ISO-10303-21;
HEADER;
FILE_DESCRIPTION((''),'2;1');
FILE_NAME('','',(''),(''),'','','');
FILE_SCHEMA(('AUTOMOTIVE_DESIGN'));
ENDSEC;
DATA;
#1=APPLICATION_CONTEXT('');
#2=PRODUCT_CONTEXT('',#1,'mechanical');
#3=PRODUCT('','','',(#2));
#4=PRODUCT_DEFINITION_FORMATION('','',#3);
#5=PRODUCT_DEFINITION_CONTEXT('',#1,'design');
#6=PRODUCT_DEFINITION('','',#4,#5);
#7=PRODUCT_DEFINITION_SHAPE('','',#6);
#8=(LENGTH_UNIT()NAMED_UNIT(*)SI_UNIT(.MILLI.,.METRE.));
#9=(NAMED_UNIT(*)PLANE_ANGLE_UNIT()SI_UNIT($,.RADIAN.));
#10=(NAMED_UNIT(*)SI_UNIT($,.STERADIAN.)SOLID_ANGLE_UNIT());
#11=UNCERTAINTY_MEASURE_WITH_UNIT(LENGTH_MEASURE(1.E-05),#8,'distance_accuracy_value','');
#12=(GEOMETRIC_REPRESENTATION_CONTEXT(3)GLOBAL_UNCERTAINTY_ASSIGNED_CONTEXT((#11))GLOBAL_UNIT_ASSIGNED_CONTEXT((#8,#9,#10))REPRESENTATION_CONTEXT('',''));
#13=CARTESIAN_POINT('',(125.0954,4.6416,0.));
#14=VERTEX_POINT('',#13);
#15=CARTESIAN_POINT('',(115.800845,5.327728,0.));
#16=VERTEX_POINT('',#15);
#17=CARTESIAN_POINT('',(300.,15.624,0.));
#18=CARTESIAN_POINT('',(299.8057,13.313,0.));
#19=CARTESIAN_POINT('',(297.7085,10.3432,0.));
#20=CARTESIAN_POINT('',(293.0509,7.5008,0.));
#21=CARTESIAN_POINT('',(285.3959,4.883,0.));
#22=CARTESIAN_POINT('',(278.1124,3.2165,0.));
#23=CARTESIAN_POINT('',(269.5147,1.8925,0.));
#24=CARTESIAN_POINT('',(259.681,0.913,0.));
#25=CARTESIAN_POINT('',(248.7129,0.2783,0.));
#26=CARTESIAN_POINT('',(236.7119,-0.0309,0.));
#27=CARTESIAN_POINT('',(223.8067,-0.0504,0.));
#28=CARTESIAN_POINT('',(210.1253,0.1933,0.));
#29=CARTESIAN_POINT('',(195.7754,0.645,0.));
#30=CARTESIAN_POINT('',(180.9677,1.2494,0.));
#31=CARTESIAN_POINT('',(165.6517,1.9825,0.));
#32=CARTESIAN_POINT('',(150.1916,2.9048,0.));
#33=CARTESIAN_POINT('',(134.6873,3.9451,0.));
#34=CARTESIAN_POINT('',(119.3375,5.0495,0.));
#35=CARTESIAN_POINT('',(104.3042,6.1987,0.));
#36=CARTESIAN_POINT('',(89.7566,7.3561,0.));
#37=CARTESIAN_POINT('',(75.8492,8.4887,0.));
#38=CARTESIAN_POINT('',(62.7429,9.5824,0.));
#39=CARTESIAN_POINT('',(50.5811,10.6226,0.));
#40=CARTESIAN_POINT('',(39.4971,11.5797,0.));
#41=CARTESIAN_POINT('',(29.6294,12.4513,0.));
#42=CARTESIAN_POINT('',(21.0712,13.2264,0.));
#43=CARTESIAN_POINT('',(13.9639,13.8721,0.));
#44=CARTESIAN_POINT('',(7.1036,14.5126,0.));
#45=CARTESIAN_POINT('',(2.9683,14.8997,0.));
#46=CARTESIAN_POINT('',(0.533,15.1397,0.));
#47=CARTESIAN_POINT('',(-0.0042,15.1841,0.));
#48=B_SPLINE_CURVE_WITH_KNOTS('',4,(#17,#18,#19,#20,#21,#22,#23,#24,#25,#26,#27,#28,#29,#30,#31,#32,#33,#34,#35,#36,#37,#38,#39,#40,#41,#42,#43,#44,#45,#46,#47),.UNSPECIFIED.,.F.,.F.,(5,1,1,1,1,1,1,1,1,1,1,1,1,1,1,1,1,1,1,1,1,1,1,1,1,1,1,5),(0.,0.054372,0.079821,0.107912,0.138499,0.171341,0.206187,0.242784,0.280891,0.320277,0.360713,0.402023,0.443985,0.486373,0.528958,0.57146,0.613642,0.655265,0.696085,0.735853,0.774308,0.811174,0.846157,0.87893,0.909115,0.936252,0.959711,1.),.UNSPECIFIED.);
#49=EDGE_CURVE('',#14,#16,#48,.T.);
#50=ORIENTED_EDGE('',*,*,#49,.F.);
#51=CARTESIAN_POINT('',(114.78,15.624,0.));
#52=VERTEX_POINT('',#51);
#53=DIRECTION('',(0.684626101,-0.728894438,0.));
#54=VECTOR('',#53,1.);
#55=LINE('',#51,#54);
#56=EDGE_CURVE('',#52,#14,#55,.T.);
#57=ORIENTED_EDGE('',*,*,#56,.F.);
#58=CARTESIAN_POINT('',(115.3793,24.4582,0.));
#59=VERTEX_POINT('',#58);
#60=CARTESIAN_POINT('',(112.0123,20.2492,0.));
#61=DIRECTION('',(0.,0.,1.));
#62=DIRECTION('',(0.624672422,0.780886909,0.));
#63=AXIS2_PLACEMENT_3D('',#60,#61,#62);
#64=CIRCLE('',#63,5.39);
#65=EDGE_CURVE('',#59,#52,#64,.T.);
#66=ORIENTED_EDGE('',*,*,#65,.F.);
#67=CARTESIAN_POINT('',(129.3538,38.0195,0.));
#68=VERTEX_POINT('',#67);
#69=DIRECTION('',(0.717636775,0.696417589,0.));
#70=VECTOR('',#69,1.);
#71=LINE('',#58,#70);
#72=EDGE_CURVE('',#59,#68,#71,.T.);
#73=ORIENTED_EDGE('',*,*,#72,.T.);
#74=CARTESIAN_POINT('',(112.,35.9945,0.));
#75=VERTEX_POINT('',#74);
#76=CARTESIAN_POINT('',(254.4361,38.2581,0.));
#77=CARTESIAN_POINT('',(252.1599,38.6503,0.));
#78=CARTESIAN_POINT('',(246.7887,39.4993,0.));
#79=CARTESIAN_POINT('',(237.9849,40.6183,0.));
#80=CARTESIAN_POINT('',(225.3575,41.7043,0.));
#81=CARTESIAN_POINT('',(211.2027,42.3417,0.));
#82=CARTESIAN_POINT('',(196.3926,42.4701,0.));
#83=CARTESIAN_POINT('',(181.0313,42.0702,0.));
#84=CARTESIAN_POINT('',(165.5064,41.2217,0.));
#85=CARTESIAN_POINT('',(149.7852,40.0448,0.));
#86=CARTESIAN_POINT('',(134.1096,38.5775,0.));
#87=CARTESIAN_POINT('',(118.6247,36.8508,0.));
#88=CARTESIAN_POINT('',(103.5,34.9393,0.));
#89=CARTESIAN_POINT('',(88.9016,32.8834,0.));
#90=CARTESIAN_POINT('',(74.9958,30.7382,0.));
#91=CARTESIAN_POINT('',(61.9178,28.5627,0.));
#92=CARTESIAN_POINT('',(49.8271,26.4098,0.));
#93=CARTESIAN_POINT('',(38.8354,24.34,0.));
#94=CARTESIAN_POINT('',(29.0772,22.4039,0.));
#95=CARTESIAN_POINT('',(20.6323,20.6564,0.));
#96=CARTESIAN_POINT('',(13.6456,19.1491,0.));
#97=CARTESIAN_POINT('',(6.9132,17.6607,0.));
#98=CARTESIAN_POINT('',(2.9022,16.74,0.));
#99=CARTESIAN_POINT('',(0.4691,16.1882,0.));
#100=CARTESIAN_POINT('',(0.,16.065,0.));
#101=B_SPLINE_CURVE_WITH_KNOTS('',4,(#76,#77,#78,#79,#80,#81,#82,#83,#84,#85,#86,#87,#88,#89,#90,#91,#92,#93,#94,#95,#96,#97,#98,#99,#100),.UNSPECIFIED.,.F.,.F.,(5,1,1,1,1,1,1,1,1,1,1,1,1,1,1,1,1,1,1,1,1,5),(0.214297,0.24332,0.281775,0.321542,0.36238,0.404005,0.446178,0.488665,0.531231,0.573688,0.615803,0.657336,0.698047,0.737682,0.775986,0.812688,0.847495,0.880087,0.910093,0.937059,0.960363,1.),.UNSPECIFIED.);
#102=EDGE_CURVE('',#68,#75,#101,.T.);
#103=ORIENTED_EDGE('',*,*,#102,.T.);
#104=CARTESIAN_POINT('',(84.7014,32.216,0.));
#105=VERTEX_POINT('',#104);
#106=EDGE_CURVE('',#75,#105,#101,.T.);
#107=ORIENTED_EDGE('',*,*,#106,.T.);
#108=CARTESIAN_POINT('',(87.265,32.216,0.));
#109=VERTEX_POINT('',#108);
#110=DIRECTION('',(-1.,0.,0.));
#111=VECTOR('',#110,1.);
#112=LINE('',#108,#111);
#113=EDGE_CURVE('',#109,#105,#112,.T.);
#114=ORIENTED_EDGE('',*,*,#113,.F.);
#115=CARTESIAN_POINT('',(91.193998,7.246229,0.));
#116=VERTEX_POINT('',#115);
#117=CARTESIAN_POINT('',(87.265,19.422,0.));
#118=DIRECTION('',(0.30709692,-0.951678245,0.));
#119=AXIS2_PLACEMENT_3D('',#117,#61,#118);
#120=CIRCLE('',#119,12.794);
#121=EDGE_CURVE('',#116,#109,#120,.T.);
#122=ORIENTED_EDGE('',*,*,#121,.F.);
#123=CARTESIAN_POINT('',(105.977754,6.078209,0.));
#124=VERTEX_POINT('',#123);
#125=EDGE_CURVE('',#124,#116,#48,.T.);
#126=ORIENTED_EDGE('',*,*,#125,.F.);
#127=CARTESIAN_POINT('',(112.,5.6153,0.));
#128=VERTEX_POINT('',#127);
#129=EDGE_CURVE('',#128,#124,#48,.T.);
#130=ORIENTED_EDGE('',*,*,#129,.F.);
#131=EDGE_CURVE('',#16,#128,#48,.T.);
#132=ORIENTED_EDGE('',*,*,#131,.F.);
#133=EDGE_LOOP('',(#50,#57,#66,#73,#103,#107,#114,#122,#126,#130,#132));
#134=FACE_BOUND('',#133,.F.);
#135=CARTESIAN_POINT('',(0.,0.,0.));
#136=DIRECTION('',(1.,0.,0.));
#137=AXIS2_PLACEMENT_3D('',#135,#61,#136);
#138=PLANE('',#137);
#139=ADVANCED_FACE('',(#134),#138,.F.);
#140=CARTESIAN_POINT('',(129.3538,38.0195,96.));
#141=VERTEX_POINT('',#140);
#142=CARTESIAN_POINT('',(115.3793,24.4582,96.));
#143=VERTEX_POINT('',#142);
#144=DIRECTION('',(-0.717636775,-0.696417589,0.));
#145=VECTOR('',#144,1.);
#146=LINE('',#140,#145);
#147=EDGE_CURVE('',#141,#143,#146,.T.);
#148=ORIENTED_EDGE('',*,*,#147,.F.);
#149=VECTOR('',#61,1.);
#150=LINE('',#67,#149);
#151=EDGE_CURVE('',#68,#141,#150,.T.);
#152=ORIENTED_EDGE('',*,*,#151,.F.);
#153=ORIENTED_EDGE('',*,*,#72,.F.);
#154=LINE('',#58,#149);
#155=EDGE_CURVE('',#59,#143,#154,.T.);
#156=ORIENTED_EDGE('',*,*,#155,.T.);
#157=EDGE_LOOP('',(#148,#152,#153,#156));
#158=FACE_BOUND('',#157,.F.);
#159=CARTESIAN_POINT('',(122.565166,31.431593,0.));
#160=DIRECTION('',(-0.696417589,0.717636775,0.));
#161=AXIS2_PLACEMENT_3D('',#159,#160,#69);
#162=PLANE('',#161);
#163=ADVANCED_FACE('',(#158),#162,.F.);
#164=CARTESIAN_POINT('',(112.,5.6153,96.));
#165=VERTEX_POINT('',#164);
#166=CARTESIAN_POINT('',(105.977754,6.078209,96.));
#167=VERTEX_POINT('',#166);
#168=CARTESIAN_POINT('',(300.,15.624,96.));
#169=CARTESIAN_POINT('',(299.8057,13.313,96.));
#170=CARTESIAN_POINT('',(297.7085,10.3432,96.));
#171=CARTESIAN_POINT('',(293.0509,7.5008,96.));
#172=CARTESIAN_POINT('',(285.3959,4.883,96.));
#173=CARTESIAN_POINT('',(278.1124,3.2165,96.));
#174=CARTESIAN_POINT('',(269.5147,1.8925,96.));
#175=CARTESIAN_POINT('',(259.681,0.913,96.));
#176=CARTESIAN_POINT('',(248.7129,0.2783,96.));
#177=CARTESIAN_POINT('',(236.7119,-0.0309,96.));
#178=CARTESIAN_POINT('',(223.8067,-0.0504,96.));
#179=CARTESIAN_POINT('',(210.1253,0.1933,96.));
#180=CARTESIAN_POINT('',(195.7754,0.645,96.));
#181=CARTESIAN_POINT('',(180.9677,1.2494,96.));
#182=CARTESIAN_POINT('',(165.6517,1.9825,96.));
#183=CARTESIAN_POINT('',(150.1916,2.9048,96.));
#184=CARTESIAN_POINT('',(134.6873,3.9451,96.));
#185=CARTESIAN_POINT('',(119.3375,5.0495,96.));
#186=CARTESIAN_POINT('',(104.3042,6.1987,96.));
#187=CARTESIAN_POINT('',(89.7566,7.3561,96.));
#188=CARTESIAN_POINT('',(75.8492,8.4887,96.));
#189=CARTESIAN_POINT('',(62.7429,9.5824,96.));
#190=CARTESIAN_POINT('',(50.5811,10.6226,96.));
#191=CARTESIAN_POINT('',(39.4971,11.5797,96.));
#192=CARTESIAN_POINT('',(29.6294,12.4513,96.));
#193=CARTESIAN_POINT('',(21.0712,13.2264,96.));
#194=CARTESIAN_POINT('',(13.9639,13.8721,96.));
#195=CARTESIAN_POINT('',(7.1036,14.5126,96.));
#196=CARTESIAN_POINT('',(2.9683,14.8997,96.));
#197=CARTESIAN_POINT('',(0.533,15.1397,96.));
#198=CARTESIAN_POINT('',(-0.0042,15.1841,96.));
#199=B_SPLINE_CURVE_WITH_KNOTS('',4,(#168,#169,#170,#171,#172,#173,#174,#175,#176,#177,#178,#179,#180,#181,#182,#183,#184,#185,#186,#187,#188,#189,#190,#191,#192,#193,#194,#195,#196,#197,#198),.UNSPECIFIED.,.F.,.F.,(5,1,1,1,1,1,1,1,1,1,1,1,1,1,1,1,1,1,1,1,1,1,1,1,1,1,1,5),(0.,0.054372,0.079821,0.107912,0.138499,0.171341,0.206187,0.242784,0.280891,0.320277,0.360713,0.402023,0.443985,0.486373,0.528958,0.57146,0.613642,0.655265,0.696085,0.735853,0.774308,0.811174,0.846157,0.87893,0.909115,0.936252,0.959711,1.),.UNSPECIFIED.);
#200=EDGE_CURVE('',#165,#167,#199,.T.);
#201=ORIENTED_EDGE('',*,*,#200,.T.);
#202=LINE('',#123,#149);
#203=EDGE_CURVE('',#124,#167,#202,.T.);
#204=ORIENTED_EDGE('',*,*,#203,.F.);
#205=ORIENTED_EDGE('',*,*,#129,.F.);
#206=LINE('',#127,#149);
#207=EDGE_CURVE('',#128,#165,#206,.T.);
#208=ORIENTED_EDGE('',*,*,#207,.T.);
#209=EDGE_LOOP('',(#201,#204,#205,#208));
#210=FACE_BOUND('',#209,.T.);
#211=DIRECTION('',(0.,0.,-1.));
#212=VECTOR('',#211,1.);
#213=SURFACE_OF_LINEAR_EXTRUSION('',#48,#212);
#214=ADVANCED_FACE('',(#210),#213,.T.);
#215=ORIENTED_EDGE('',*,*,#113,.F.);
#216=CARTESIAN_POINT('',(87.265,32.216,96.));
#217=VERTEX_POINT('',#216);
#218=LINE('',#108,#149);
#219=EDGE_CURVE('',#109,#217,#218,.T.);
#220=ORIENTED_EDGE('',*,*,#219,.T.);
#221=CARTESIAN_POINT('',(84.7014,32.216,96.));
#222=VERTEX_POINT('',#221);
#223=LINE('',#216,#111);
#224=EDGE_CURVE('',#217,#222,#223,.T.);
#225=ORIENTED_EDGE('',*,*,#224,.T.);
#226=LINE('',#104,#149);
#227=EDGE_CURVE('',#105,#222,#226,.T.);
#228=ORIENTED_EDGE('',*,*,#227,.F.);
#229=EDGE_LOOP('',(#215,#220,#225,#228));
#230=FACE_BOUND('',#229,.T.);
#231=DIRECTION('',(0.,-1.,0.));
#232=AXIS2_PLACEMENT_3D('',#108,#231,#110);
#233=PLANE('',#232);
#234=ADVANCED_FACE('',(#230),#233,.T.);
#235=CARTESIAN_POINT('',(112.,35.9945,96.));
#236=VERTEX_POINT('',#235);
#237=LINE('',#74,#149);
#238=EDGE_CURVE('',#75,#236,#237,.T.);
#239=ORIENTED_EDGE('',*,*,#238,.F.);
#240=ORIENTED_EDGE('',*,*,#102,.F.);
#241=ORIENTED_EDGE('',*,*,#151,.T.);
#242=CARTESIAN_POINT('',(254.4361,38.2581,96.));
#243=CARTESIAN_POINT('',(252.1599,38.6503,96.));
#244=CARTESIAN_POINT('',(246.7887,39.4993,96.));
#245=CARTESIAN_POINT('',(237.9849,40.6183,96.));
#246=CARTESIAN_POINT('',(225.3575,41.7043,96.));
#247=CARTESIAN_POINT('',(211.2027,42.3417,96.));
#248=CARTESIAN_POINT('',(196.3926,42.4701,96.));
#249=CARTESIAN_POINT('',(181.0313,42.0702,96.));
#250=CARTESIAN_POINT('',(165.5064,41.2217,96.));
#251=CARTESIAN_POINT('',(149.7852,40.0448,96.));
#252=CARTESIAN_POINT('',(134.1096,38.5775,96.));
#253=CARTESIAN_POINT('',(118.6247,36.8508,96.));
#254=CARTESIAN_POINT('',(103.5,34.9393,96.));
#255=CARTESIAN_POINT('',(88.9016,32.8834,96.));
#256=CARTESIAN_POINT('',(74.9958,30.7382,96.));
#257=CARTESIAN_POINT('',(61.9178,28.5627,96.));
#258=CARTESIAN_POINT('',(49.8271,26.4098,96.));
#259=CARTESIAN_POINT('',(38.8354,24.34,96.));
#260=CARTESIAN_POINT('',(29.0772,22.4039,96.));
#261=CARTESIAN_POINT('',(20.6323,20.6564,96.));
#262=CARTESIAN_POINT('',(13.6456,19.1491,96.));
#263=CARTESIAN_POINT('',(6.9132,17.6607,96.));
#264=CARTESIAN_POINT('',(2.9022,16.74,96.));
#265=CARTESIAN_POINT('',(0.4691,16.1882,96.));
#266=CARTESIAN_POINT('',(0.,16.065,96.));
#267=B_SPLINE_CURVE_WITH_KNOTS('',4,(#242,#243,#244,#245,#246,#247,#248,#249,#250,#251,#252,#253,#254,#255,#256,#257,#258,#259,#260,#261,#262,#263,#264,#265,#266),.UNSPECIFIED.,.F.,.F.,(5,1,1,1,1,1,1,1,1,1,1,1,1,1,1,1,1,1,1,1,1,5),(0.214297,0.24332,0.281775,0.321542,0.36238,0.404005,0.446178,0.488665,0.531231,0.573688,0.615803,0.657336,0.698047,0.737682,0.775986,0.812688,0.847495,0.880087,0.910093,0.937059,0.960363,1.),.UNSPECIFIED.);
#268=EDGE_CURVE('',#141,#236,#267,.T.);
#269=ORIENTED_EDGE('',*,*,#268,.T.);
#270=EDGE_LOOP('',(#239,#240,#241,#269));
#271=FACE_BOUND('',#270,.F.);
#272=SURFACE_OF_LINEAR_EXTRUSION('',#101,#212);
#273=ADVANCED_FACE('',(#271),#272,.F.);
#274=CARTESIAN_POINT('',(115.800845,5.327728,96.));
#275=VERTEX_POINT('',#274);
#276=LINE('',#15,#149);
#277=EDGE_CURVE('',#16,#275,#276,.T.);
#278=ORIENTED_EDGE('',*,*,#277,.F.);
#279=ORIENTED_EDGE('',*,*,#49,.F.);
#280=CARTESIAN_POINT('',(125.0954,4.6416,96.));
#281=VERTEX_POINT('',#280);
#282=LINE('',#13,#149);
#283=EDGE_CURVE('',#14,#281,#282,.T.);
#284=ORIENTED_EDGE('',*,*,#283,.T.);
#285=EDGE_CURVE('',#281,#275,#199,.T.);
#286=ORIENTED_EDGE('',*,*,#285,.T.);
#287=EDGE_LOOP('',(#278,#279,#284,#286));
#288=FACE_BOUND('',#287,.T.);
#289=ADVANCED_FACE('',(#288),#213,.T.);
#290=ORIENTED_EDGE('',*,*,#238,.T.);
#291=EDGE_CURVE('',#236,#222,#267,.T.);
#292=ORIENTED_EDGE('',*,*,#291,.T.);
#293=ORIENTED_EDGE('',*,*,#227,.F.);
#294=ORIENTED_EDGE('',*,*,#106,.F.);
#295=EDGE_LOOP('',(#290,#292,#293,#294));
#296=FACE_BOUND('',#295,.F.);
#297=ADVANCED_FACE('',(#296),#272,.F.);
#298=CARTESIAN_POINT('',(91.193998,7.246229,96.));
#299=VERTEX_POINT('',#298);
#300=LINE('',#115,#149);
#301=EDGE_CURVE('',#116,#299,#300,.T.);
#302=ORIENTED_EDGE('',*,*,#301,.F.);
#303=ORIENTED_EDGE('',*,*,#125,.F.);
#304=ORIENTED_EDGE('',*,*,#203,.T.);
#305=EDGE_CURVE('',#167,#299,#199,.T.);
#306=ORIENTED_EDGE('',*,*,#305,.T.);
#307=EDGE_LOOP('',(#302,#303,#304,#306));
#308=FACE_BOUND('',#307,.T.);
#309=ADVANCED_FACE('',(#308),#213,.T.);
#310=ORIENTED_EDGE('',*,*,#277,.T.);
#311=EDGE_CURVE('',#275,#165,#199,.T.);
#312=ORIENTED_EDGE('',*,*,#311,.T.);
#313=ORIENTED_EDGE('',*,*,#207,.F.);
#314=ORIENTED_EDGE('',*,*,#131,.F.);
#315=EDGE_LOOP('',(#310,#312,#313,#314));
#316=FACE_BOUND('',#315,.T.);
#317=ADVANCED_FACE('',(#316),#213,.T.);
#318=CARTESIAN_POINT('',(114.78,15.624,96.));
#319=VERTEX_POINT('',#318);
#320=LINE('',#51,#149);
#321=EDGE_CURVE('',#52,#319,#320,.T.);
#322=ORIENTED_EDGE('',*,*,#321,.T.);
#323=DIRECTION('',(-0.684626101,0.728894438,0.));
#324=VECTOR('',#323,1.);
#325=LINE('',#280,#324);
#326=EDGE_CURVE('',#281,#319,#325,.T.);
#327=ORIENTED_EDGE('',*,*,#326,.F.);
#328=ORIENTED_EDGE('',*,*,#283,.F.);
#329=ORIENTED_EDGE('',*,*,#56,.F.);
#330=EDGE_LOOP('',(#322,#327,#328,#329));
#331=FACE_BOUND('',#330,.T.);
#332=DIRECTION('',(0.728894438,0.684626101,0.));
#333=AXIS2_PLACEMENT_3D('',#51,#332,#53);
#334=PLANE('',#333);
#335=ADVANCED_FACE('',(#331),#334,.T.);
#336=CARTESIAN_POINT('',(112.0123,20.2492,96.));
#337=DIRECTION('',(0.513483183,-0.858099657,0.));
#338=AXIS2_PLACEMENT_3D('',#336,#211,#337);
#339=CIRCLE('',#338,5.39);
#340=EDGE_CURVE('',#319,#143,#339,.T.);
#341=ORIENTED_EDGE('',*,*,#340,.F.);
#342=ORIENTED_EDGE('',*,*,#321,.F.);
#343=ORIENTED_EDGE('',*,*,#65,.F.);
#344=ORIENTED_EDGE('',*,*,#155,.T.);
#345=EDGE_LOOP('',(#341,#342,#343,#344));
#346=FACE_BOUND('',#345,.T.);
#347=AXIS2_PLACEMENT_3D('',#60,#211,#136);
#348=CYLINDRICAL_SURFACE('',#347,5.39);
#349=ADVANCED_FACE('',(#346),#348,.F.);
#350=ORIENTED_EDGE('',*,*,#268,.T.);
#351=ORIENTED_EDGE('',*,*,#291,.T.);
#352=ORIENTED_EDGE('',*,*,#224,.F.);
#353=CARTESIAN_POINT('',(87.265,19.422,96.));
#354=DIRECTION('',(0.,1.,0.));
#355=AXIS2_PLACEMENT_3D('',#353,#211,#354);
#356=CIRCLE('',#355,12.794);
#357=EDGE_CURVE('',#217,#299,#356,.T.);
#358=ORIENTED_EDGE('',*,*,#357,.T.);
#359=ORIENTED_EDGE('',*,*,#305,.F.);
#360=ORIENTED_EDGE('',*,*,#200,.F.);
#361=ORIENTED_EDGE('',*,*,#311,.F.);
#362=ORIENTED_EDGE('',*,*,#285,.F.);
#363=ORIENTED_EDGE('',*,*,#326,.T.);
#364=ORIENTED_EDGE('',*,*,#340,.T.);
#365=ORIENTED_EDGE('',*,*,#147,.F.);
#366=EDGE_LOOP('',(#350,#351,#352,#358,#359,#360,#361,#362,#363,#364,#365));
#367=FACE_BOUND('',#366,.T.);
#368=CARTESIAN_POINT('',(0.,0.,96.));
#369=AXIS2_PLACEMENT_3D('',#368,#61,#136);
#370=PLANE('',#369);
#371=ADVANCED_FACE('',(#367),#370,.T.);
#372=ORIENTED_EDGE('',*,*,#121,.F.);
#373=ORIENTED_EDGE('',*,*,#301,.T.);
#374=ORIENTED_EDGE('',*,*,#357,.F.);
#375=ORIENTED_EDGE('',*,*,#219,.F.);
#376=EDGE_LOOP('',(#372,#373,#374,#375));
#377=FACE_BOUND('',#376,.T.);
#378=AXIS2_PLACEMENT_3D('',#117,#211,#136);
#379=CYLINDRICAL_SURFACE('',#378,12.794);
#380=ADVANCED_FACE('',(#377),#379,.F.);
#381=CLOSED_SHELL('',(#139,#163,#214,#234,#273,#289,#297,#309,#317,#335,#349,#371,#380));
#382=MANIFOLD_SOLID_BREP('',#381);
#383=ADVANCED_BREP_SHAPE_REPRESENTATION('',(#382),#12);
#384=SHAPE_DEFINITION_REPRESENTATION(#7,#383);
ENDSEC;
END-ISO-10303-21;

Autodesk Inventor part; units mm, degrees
ref_plane "YZ Plane" through (0, 0, 0) normal (1, 0, 0) x (0, 1, 0)
ref_plane "XZ Plane" through (0, 0, 0) normal (0, 1, 0) x (-1, 0, 0)
ref_plane "XY Plane" through (0, 0, 0) normal (0, 0, 1) x (1, 0, 0)
sketch "Sketch1" plane through (0, 0, 0) normal (0, 0, 1) x (1, 0, 0)
  spline S0 degree 4 poles (254.4361, 38.2581) (252.1599, 38.6503) (246.7887, 39.4993) (237.9849, 40.6183) (225.3575, 41.7043) (211.2027, 42.3417) (196.3926, 42.4701) (181.0313, 42.0702) (165.5064, 41.2217) (149.7852, 40.0448) (134.1096, 38.5775) (118.6247, 36.8508) (103.5, 34.9393) (88.9016, 32.8834) (74.9958, 30.7382) (61.9178, 28.5627) (49.8271, 26.4098) (38.8354, 24.34) (29.0772, 22.4039) (20.6323, 20.6564) (13.6456, 19.1491) (6.9132, 17.6607) (2.9022, 16.74) (0.4691, 16.1882) (0, 16.065) knots 0.214297 0.214297 0.214297 0.214297 0.214297 0.24332 0.281775 0.321542 0.36238 0.404005 0.446178 0.488665 0.531231 0.573688 0.615803 0.657336 0.698047 0.737682 0.775986 0.812688 0.847495 0.880087 0.910093 0.937059 0.960363 1 1 1 1 1
  spline S1 degree 4 poles (300, 15.624) (299.8057, 13.313) (297.7085, 10.3432) (293.0509, 7.5008) (285.3959, 4.883) (278.1124, 3.2165) (269.5147, 1.8925) (259.681, 0.913) (248.7129, 0.2783) (236.7119, -0.0309) (223.8067, -0.0504) (210.1253, 0.1933) (195.7754, 0.645) (180.9677, 1.2494) (165.6517, 1.9825) (150.1916, 2.9048) (134.6873, 3.9451) (119.3375, 5.0495) (104.3042, 6.1987) (89.7566, 7.3561) (75.8492, 8.4887) (62.7429, 9.5824) (50.5811, 10.6226) (39.4971, 11.5797) (29.6294, 12.4513) (21.0712, 13.2264) (13.9639, 13.8721) (7.1036, 14.5126) (2.9683, 14.8997) (0.533, 15.1397) (-0.0042, 15.1841) knots 0 0 0 0 0 0.054372 0.079821 0.107912 0.138499 0.171341 0.206187 0.242784 0.280891 0.320277 0.360713 0.402023 0.443985 0.486373 0.528958 0.57146 0.613642 0.655265 0.696085 0.735853 0.774308 0.811174 0.846157 0.87893 0.909115 0.936252 0.959711 1 1 1 1 1
  arc A0 (0, 16.065) -> (-0.0042, 15.1841) centre (0.1158, 15.624) ccw
  line L0 (0.1158, 15.624) -> (227.9902, 15.624) construction
  line L1 (300, 15.624) -> (0.1158, 15.624) construction
  line L2 (300, 15.624) -> (200, 15.624) construction
  line L3 (200, 15.624) -> (200, 42.3773) construction
  line L4 (200, 15.624) -> (200, 0.5273)
  line L5 (0, 0) -> (0, 20.241)
  line L6 (0, 20.241) -> (238.581, 20.241) construction
  circle A1 centre (238.581, 20.241) radius 14
  line L7 (238.581, 20.241) -> (208.581, 20.241)
  line L8 (238.581, 25.359) -> (238.581, 20.241)
  line L9 (0, 20.241) -> (112, 20.241) construction
  line L10 (0, 15.624) -> (112, 15.624) construction
  line L11 (0, 15.624) -> (112, 15.624) construction
  line L12 (112, 15.624) -> (112, 35.9945)
  line L13 (112, 15.624) -> (112, 5.6153)
  spline S2 degree 4 poles (299.2852, 20.241) (299.2279, 20.1316) (299.168, 20.0232) (299.1056, 19.9158) (299.0406, 19.8092) knots 0.014818 0.014818 0.014818 0.014818 0.014818 0.017711 0.017711 0.017711 0.017711 0.017711
  line L14 (299.2071, 20.0822) -> (298.8742, 19.5363) construction
  arc A2 (298.904, 19.5932) -> (299.1702, 20.0296) centre (292.2911, 23.9254) ccw construction
  line L15 (299.432, 20.5214) -> (299.1384, 19.9606) construction
  arc A3 (299.1639, 20.0188) -> (299.3987, 20.4672) centre (292.801, 23.6361) ccw construction
  spline S3 degree 2 poles (295.8506, 16.56) (295.1573, 16.0692) (294.3933, 15.624) knots 0 0 0 1 1 1
  line L16 (294.5507, 15.7157) -> (294.2359, 15.5323) construction
  arc A4 (294.2672, 15.5511) -> (294.519, 15.6978) centre (283.8844, 33.657) ccw construction
  spline S4 degree 4 poles (296.8569, 15.624) (296.6183, 15.8629) (296.3707, 16.0985) (296.1147, 16.3309) (295.8506, 16.56) knots 0.044099 0.044099 0.044099 0.044099 0.044099 0.050856 0.050856 0.050856 0.050856 0.050856
  spline S5 degree 4 poles (219.5872, 34.9119) (218.6954, 34.952) (214.8585, 35.1063) (210.7072, 35.3295) (192.898, 35.4464) (181.4278, 35.0555) (165.1774, 34.1819) (149.5619, 33.1267) (133.8284, 31.3479) (128.2654, 31.0974) (123.3908, 30.59) knots 0 0 0 0 0 0.139244 0.23322 0.363937 0.509983 0.657115 0.798105 1 1 1 1 1
  line L17 (295.9593, 16.4657) -> (295.7419, 16.6543) construction
  arc A5 (295.9374, 16.4843) -> (295.7635, 16.6352) centre (281.8729, 0.4516) ccw construction
  line L18 (232.7438, 34.3645) -> (201.1936, 35.6815) construction
  arc A6 (229.5868, 34.4549) -> (204.3471, 35.5085) centre (136.3483, -1896.3245) ccw construction
  arc A7 (264.2661, 15.123) -> (264.3608, 15.624) centre (238.581, 20.241) ccw
  circle A8 centre (238.581, 20.241) radius 24
  circle A9 centre (112, 20.241) radius 15.39
  spline S6 degree 4 poles (300, 15.624) (300.2691, 17.9337) (298.7834, 21.2677) (294.6934, 24.9798) (287.5317, 28.9406) (280.4869, 31.8205) (271.481, 34.7182) (262.4868, 36.793) (257.7004, 37.6957) (254.4361, 38.2581) knots 0 0 0 0 0 0.247555 0.363857 0.49255 0.632996 0.778264 1 1 1 1 1
  line L19 (285.2945, 32.941) -> (223.5776, 43.5753) construction
  arc A10 (278.7224, 32.6349) -> (229.6682, 41.0872) centre (217.2184, -177.7386) ccw construction
  line L20 (285.2945, 32.941) -> (223.5776, 43.5753) construction
  arc A11 (278.8771, 33.0418) -> (229.6586, 41.5224) centre (200.8949, -272.4733) ccw construction
  spline S7 degree 4 poles (251.493, 31.7362) (243.7009, 32.9676) (232.1602, 34.2966) (216.4428, 35.2879) (196.3923, 35.4611) (181.0317, 35.0615) (165.5053, 34.2127) (149.7883, 33.0365) (134.1012, 31.5672) (118.6474, 29.8462) (103.4397, 27.9193) (89.0589, 25.9037) (74.8371, 23.6927) (62.4884, 21.6695) (49.6399, 19.3545) (46.3795, 18.7429) (43.8125, 18.259) knots 0 0 0 0 0 0.163963 0.232338 0.302031 0.372642 0.443778 0.515047 0.586134 0.656647 0.726187 0.794348 0.86071 0.920346 1 1 1 1 1 construction
  spline S8 degree 4 poles (295.845, 16.556) (295.7198, 16.6646) (294.585, 17.6283) (292.0585, 19.4283) (287.5167, 21.9347) (280.467, 24.8321) (271.9714, 27.5226) (264.2087, 29.4004) (258.4092, 30.5515) (255.0536, 31.1429) (254.4361, 31.2493) (253.9689, 31.3298) (253.5018, 31.4103) (253.0347, 31.4908) (252.5676, 31.5712) knots 0.050892 0.050892 0.050892 0.050892 0.050892 0.054094 0.079507 0.107628 0.138317 0.171335 0.206423 0.214297 0.214297 0.214297 0.214297 0.220253 0.220253 0.220253 0.220253 0.220253
  line L21 (285.2945, 25.9322) -> (223.5776, 36.5664) construction
  line L22 (285.2945, 25.9322) -> (223.5776, 36.5664) construction
  arc A12 (278.7224, 25.626) -> (229.6682, 34.0784) centre (217.2184, -184.7474) ccw construction
  line L23 (270.129, 9.1254) -> (275.129, 9.1254) construction
  line L24 (281.07, 24.4582) -> (286.07, 24.4582) construction
  line L25 (318.8214, -3.3673) -> (272.8686, 36.4793) construction
  arc A13 (303.2079, 0.552) -> (278.9595, 21.5782) centre (281.8576, 0.4252) ccw construction
  spline S9 degree 4 poles (295.8353, 16.5644) (293.4171, 14.8846) (288.4135, 12.6926) (280.7063, 10.6698) (269.511, 8.9398) (259.6826, 7.9632) (248.7122, 7.3273) (236.7121, 7.0186) (223.8065, 6.9989) (210.1254, 7.2427) (195.7753, 7.6944) (180.968, 8.2987) (165.6509, 9.032) (150.1939, 9.954) (134.681, 10.995) (119.3545, 12.0974) (104.259, 13.2519) (89.8748, 14.3954) (75.7524, 15.5471) (62.9065, 16.6165) (50.5107, 17.6776) (46.5166, 18.0246) (43.8125, 18.259) knots 0 0 0 0 0 0.084767 0.124025 0.166179 0.210904 0.257877 0.306788 0.35734 0.409241 0.462263 0.516122 0.570528 0.625186 0.679738 0.73388 0.787304 0.839697 0.89074 0.937143 1 1 1 1 1
  spline S10 degree 4 poles (21.4623, 20.241) (20.6227, 20.317) (20.124, 20.3622) (19.9191, 20.3809) (19.554, 20.414) knots 0.979732 0.979732 0.979732 0.979732 0.979732 1 1 1 1 1 construction
  line L26 (68.4884, 16.1198) -> (19.1367, 20.3983) construction
  arc A14 (63.5515, 16.5281) -> (24.0702, 19.9509) centre (-819.8994, -9944.3712) ccw construction
  line L27 (21.7244, 20.2173) -> (21.2001, 20.2647) construction
  arc A15 (21.2525, 20.26) -> (21.672, 20.222) centre (898.6358, 9712.9556) ccw construction
  line L28 (74.2541, 23.9969) -> (13.371, 12.5211) construction
  arc A16 (68.1759, 22.7939) -> (19.47, 13.6134) centre (1053.3901, -5337.891) ccw construction
  spline S11 degree 4 poles (218.4375, 7.1934) (217.6173, 7.2408) (213.8192, 7.4688) (209.5863, 6.8507) (192.5485, 7.9441) (181.1469, 8.163) (165.7461, 9.0283) (149.1424, 9.8801) (139.9777, 10.7519) (129.1073, 11.2464) (124.6867, 11.5289) knots 0 0 0 0 0 0.127631 0.213723 0.333628 0.467446 0.602621 0.738424 0.880395 0.880395 0.880395 0.880395 0.880395 construction
  line L29 (133.5337, 10.9635) -> (115.8396, 12.0942) construction
  arc A17 (117.618, 12.0789) -> (131.7678, 11.1747) centre (141.027, 267.2384) ccw construction
  line L30 (140.665, 32.3881) -> (106.1166, 28.792) construction
  arc A18 (137.222, 31.4497) -> (109.679, 28.5828) centre (140.6225, -134.9596) ccw construction
  circle A19 centre (238.581, 20.241) radius 18
  line L31 (238.581, 38.241) -> (225.78, 41.559)
  line L32 (238.581, 2.241) -> (224.22, 0)
  line L33 (214.581, 20.241) -> (214.581, 42.1266) construction
  line L34 (127.39, 20.241) -> (127.39, 11.5255) construction
  line L35 (127.39, 20.241) -> (131.3139, 20.241) construction
  line L36 (96.61, 20.241) -> (96.61, 13.8631) construction
  line L37 (270.129, 5.6153) -> (270.129, 15.624) construction
  line L38 (272.129, 7.6153) -> (272.129, 13.624)
  line L39 (268.129, 13.624) -> (268.129, 7.6153)
  arc A20 (268.129, 7.6153) -> (272.129, 7.6153) centre (270.129, 7.6153) ccw
  arc A21 (272.129, 13.624) -> (268.129, 13.624) centre (270.129, 13.624) ccw
  line L40 (270.129, 32.1807) -> (270.129, 22.172) construction
  line L41 (272.129, 30.1807) -> (272.129, 24.172)
  line L42 (268.129, 24.172) -> (268.129, 30.1807)
  arc A22 (272.129, 30.1807) -> (268.129, 30.1807) centre (270.129, 30.1807) ccw
  arc A23 (268.129, 24.172) -> (272.129, 24.172) centre (270.129, 24.172) ccw
  arc A24 (200, 42.3155) -> (199.8539, 42.3773) centre (190.581, 20.241) ccw
  arc A25 (171.273, 34.4958) -> (171.2681, 34.4892) centre (190.581, 20.241) ccw
  arc A26 (210.7484, 7.2304) -> (209.2875, 35.2765) centre (190.581, 20.241) ccw
  arc A27 (169.4455, 8.8703) -> (169.4744, 8.8168) centre (190.581, 20.241) ccw
  arc A28 (153.9768, 9.6824) -> (154.0303, 9.7394) centre (142.78, 20.241) ccw
  arc A29 (151.2419, 33.0959) -> (151.2193, 33.1107) centre (142.78, 20.241) ccw
  arc A30 (132.1299, 31.3508) -> (130.3229, 11.2037) centre (142.78, 20.241) ccw
  arc A31 (66.334, 16.3348) -> (66.5389, 15.624) centre (81.22, 20.241) ccw
  line L43 (112, 20.241) -> (112, 14.851) construction
  line L44 (112, 14.851) -> (91.265, 14.851) construction
  line L45 (112, 20.241) -> (87.265, 20.241) construction
  line L46 (87.265, 20.241) -> (87.265, 19.422) construction
  circle A32 centre (87.265, 19.422) radius 12.794
  line L47 (87.265, 32.216) -> (84.7014, 32.216)
  circle A33 centre (112.0123, 20.2492) radius 5.39
  line L48 (122.5954, 17.6185) -> (122.5954, 13.8685)
  line L49 (122.5954, 21.3685) -> (122.5954, 13.8685)
  line L50 (127.5954, 13.8685) -> (127.5954, 21.3685)
  line L51 (122.5954, 13.8685) -> (127.5954, 13.8685)
  line L52 (127.5954, 21.3685) -> (122.5954, 21.3685)
  line L53 (112.0123, 20.2492) -> (146.6953, 20.2492) construction
  line L54 (167.5954, 17.6185) -> (170.0954, 17.6185) construction
  line L55 (167.5954, 17.6185) -> (167.5954, 21.3685)
  line L56 (167.5954, 13.8685) -> (167.5954, 21.3685)
  line L57 (162.5954, 13.8685) -> (167.5954, 13.8685)
  line L58 (162.5954, 21.3685) -> (162.5954, 13.8685)
  line L59 (167.5954, 21.3685) -> (162.5954, 21.3685)
  line L60 (146.5954, 17.6185) -> (170.5954, 17.6185) construction
  line L61 (146.5954, 17.6185) -> (167.5954, 17.6185) construction
  arc A34 (179.5651, 35.2547) -> (178.1042, 7.2085) centre (198.2716, 20.2192) ccw
  line L62 (115.3793, 24.4582) -> (129.3538, 38.0195)
  line L63 (115.3793, 16.0238) -> (129.3538, 2.4625)
  line L64 (114.78, 15.624) -> (125.0954, 4.6416)
  point P0 (0.783, 16.254)
  point P1 (3.213, 16.812)
  point P2 (7.239, 17.724)
  point P3 (12.813, 18.96)
  point P4 (19.884, 20.484)
  point P5 (28.374, 22.245)
  point P6 (38.199, 24.195)
  point P7 (49.254, 26.28)
  point P8 (61.419, 28.446)
  point P9 (74.571, 30.636)
  point P10 (88.56, 32.793)
  point P11 (103.242, 34.86)
  point P12 (118.455, 36.783)
  point P13 (134.028, 38.511)
  point P14 (149.793, 39.984)
  point P15 (165.576, 41.16)
  point P16 (181.206, 41.985)
  point P17 (196.638, 42.363)
  point P18 (211.554, 42.222)
  point P19 (239.145, 40.389)
  point P20 (262.68, 36.666)
  point P21 (272.577, 34.218)
  point P22 (281.07, 31.467)
  point P23 (288.069, 28.491)
  point P24 (293.505, 25.359)
  point P25 (297.324, 22.137)
  point P26 (300, 15.624)
  point P27 (0.861, 15.105)
  point P28 (3.342, 14.868)
  point P29 (7.446, 14.481)
  point P30 (13.122, 13.953)
  point P31 (20.31, 13.296)
  point P32 (28.92, 12.519)
  point P33 (38.856, 11.64)
  point P34 (50.007, 10.674)
  point P35 (62.244, 9.63)
  point P36 (75.429, 8.529)
  point P37 (89.418, 7.389)
  point P38 (104.052, 6.228)
  point P39 (119.172, 5.076)
  point P40 (134.613, 3.966)
  point P41 (150.207, 2.928)
  point P42 (165.783, 2.013)
  point P43 (181.167, 1.263)
  point P44 (196.068, 0.663)
  point P45 (210.468, 0.225)
  point P46 (237.189, 0.039)
  point P47 (249.246, 0.378)
  point P48 (260.262, 1.05)
  point P49 (270.129, 2.076)
  point P50 (278.739, 3.462)
  point P51 (285.993, 5.211)
  point P52 (291.81, 7.314)
  point P53 (296.121, 9.756)
  point P54 (298.863, 12.531)
  point P55 (200, 15.624)
  point P56 (225.3642, 15.624)
  point P57 (238.581, 6.241)
  point P58 (238.581, 34.241)
  point P59 (225.3642, 15.624)
  point P60 (251.7978, 15.624)
  point P61 (0, 16.065)
  point P62 (0, 15.1838)
  point P63 (224.581, 20.241)
  point P64 (0, 9.065)
  point P65 (0.783, 9.254)
  point P66 (3.213, 9.812)
  point P67 (7.239, 10.724)
  point P68 (12.813, 11.96)
  point P69 (19.884, 13.484)
  point P70 (28.374, 15.245)
  point P71 (38.199, 17.195)
  point P72 (49.254, 19.28)
  point P73 (61.419, 21.446)
  point P74 (74.571, 23.636)
  point P75 (88.56, 25.793)
  point P76 (103.242, 27.86)
  point P77 (118.455, 29.783)
  point P78 (134.028, 31.511)
  point P79 (149.793, 32.984)
  point P80 (165.576, 34.16)
  point P81 (181.206, 34.985)
  point P82 (225.78, 34.559)
  point P83 (239.145, 33.389)
  point P84 (251.493, 31.745)
  point P85 (262.68, 29.666)
  point P86 (272.577, 27.218)
  point P87 (281.07, 24.467)
  point P88 (288.069, 21.491)
  point P89 (293.505, 18.359)
  point P90 (297.324, 15.137)
  point P91 (299.493, 11.879)
  point P92 (300, 8.624)
  point P93 (-0.0042, 22.1841)
  point P94 (0.861, 22.105)
  point P95 (3.342, 21.868)
  point P96 (7.446, 21.481)
  point P97 (13.122, 20.953)
  point P98 (20.31, 20.296)
  point P99 (28.92, 19.519)
  point P100 (38.856, 18.64)
  point P101 (50.007, 17.674)
  point P102 (62.244, 16.63)
  point P103 (75.429, 15.529)
  point P104 (89.418, 14.389)
  point P105 (104.052, 13.228)
  point P106 (119.172, 12.076)
  point P107 (134.613, 10.966)
  point P108 (150.207, 9.928)
  point P109 (165.783, 9.013)
  point P110 (181.167, 8.263)
  point P111 (196.068, 7.663)
  point P112 (210.468, 7.225)
  point P113 (224.22, 7)
  point P114 (237.189, 7.039)
  point P115 (249.246, 7.378)
  point P116 (260.262, 8.05)
  point P117 (270.129, 9.076)
  point P118 (278.739, 10.462)
  point P119 (285.993, 12.211)
  point P120 (291.81, 14.314)
  point P121 (296.121, 16.756)
  point P122 (298.863, 19.531)
  point P123 (300, 22.624)
  point P124 (18.7405, 20.241)
  point P125 (216.9687, 35.023)
  point P126 (0, 16.065)
  point P127 (296.8569, 15.624)
  point P128 (294.3933, 15.624)
  point P129 (219.5872, 34.9119)
  point P130 (123.3908, 30.59)
  point P131 (254.4361, 38.2581)
  point P132 (0, 9.0562)
  point P133 (0.783, 9.2452)
  point P134 (3.213, 9.8032)
  point P135 (7.239, 10.7152)
  point P136 (12.813, 11.9512)
  point P137 (19.884, 13.4752)
  point P138 (28.374, 15.2362)
  point P139 (38.199, 17.1862)
  point P140 (49.254, 19.2712)
  point P141 (61.419, 21.4372)
  point P142 (74.571, 23.6272)
  point P143 (88.56, 25.7842)
  point P144 (103.242, 27.8512)
  point P145 (118.455, 29.7742)
  point P146 (134.028, 31.5022)
  point P147 (149.793, 32.9752)
  point P148 (165.576, 34.1512)
  point P149 (181.206, 34.9762)
  point P150 (196.638, 35.3542)
  point P151 (211.554, 35.2132)
  point P152 (225.78, 34.5502)
  point P153 (262.68, 29.6572)
  point P154 (272.577, 27.2092)
  point P155 (297.324, 15.1282)
  point P156 (299.493, 11.8702)
  point P157 (300, 8.6152)
  point P158 (254.4361, 31.2493)
  point P159 (216.8848, -206.3625)
  point P160 (278.8769, 26.0734)
  point P161 (229.5906, 33.8662)
  point P162 (-0.0042, 22.2335)
  point P163 (0.861, 22.1544)
  point P164 (3.342, 21.9174)
  point P165 (7.446, 21.5304)
  point P166 (13.122, 21.0024)
  point P167 (28.92, 19.5684)
  point P168 (38.856, 18.6894)
  point P169 (50.007, 17.7234)
  point P170 (62.244, 16.6794)
  point P171 (75.429, 15.5784)
  point P172 (89.418, 14.4384)
  point P173 (104.052, 13.2774)
  point P174 (119.172, 12.1254)
  point P175 (134.613, 11.0154)
  point P176 (150.207, 9.9774)
  point P177 (165.783, 9.0624)
  point P178 (181.167, 8.3124)
  point P179 (196.068, 7.7124)
  point P180 (210.468, 7.2744)
  point P181 (224.22, 7.0494)
  point P182 (237.189, 7.0884)
  point P183 (249.246, 7.4274)
  point P184 (260.262, 8.0994)
  point P185 (278.739, 10.5114)
  point P186 (285.993, 12.2604)
  point P187 (296.121, 16.8054)
  point P188 (298.863, 19.5804)
  point P189 (300, 22.6734)
  point P190 (225.7, -0.0094)
  point P191 (252.2617, 0.522)
  point P192 (227.3495, 41.4508)
  point P193 (105.9778, 6.0782)
  point P194 (115.8008, 5.3277)
  point P195 (98.26, 27.1738)
  point P196 (260.4522, 30.1228)
  point P197 (123.5853, 30.3718)
  point P198 (134.5979, 31.5604)
  point P199 (134.4982, 31.5502)
  dimension "d63" = 25.588
  dimension "d17" = 100
  dimension "d19" = 20.241
  dimension "d20" = 238.581
  dimension "d21" = 28
  dimension "d37" = 112
  dimension "d39" = 112
  dimension "d40" = 0
  dimension "d43" = 10
  dimension "d55" = 4
  dimension "d56" = 90
  dimension "d58" = 4
  dimension "d59" = 20.735
  dimension "d61" = 24.735
  dimension "d62" = 0.819
  dimension "d64" = 34.683
extrude "Extrusion3" add sketch "Sketch1" along normal blind 96 contours L62 A9 L12 S0 | L12 A9 A32 L47 S0 | L62 A33 L12 A9 | L12 A33 L13 S9 A32 A9 | A33 L64 S9 L13 | S9 L64 A9 S1 L13 | L13 S1 A9 A32 S9 | A9 S1 A32 | L64 S1 A9
properties part number "R10-11 Foam 96"
